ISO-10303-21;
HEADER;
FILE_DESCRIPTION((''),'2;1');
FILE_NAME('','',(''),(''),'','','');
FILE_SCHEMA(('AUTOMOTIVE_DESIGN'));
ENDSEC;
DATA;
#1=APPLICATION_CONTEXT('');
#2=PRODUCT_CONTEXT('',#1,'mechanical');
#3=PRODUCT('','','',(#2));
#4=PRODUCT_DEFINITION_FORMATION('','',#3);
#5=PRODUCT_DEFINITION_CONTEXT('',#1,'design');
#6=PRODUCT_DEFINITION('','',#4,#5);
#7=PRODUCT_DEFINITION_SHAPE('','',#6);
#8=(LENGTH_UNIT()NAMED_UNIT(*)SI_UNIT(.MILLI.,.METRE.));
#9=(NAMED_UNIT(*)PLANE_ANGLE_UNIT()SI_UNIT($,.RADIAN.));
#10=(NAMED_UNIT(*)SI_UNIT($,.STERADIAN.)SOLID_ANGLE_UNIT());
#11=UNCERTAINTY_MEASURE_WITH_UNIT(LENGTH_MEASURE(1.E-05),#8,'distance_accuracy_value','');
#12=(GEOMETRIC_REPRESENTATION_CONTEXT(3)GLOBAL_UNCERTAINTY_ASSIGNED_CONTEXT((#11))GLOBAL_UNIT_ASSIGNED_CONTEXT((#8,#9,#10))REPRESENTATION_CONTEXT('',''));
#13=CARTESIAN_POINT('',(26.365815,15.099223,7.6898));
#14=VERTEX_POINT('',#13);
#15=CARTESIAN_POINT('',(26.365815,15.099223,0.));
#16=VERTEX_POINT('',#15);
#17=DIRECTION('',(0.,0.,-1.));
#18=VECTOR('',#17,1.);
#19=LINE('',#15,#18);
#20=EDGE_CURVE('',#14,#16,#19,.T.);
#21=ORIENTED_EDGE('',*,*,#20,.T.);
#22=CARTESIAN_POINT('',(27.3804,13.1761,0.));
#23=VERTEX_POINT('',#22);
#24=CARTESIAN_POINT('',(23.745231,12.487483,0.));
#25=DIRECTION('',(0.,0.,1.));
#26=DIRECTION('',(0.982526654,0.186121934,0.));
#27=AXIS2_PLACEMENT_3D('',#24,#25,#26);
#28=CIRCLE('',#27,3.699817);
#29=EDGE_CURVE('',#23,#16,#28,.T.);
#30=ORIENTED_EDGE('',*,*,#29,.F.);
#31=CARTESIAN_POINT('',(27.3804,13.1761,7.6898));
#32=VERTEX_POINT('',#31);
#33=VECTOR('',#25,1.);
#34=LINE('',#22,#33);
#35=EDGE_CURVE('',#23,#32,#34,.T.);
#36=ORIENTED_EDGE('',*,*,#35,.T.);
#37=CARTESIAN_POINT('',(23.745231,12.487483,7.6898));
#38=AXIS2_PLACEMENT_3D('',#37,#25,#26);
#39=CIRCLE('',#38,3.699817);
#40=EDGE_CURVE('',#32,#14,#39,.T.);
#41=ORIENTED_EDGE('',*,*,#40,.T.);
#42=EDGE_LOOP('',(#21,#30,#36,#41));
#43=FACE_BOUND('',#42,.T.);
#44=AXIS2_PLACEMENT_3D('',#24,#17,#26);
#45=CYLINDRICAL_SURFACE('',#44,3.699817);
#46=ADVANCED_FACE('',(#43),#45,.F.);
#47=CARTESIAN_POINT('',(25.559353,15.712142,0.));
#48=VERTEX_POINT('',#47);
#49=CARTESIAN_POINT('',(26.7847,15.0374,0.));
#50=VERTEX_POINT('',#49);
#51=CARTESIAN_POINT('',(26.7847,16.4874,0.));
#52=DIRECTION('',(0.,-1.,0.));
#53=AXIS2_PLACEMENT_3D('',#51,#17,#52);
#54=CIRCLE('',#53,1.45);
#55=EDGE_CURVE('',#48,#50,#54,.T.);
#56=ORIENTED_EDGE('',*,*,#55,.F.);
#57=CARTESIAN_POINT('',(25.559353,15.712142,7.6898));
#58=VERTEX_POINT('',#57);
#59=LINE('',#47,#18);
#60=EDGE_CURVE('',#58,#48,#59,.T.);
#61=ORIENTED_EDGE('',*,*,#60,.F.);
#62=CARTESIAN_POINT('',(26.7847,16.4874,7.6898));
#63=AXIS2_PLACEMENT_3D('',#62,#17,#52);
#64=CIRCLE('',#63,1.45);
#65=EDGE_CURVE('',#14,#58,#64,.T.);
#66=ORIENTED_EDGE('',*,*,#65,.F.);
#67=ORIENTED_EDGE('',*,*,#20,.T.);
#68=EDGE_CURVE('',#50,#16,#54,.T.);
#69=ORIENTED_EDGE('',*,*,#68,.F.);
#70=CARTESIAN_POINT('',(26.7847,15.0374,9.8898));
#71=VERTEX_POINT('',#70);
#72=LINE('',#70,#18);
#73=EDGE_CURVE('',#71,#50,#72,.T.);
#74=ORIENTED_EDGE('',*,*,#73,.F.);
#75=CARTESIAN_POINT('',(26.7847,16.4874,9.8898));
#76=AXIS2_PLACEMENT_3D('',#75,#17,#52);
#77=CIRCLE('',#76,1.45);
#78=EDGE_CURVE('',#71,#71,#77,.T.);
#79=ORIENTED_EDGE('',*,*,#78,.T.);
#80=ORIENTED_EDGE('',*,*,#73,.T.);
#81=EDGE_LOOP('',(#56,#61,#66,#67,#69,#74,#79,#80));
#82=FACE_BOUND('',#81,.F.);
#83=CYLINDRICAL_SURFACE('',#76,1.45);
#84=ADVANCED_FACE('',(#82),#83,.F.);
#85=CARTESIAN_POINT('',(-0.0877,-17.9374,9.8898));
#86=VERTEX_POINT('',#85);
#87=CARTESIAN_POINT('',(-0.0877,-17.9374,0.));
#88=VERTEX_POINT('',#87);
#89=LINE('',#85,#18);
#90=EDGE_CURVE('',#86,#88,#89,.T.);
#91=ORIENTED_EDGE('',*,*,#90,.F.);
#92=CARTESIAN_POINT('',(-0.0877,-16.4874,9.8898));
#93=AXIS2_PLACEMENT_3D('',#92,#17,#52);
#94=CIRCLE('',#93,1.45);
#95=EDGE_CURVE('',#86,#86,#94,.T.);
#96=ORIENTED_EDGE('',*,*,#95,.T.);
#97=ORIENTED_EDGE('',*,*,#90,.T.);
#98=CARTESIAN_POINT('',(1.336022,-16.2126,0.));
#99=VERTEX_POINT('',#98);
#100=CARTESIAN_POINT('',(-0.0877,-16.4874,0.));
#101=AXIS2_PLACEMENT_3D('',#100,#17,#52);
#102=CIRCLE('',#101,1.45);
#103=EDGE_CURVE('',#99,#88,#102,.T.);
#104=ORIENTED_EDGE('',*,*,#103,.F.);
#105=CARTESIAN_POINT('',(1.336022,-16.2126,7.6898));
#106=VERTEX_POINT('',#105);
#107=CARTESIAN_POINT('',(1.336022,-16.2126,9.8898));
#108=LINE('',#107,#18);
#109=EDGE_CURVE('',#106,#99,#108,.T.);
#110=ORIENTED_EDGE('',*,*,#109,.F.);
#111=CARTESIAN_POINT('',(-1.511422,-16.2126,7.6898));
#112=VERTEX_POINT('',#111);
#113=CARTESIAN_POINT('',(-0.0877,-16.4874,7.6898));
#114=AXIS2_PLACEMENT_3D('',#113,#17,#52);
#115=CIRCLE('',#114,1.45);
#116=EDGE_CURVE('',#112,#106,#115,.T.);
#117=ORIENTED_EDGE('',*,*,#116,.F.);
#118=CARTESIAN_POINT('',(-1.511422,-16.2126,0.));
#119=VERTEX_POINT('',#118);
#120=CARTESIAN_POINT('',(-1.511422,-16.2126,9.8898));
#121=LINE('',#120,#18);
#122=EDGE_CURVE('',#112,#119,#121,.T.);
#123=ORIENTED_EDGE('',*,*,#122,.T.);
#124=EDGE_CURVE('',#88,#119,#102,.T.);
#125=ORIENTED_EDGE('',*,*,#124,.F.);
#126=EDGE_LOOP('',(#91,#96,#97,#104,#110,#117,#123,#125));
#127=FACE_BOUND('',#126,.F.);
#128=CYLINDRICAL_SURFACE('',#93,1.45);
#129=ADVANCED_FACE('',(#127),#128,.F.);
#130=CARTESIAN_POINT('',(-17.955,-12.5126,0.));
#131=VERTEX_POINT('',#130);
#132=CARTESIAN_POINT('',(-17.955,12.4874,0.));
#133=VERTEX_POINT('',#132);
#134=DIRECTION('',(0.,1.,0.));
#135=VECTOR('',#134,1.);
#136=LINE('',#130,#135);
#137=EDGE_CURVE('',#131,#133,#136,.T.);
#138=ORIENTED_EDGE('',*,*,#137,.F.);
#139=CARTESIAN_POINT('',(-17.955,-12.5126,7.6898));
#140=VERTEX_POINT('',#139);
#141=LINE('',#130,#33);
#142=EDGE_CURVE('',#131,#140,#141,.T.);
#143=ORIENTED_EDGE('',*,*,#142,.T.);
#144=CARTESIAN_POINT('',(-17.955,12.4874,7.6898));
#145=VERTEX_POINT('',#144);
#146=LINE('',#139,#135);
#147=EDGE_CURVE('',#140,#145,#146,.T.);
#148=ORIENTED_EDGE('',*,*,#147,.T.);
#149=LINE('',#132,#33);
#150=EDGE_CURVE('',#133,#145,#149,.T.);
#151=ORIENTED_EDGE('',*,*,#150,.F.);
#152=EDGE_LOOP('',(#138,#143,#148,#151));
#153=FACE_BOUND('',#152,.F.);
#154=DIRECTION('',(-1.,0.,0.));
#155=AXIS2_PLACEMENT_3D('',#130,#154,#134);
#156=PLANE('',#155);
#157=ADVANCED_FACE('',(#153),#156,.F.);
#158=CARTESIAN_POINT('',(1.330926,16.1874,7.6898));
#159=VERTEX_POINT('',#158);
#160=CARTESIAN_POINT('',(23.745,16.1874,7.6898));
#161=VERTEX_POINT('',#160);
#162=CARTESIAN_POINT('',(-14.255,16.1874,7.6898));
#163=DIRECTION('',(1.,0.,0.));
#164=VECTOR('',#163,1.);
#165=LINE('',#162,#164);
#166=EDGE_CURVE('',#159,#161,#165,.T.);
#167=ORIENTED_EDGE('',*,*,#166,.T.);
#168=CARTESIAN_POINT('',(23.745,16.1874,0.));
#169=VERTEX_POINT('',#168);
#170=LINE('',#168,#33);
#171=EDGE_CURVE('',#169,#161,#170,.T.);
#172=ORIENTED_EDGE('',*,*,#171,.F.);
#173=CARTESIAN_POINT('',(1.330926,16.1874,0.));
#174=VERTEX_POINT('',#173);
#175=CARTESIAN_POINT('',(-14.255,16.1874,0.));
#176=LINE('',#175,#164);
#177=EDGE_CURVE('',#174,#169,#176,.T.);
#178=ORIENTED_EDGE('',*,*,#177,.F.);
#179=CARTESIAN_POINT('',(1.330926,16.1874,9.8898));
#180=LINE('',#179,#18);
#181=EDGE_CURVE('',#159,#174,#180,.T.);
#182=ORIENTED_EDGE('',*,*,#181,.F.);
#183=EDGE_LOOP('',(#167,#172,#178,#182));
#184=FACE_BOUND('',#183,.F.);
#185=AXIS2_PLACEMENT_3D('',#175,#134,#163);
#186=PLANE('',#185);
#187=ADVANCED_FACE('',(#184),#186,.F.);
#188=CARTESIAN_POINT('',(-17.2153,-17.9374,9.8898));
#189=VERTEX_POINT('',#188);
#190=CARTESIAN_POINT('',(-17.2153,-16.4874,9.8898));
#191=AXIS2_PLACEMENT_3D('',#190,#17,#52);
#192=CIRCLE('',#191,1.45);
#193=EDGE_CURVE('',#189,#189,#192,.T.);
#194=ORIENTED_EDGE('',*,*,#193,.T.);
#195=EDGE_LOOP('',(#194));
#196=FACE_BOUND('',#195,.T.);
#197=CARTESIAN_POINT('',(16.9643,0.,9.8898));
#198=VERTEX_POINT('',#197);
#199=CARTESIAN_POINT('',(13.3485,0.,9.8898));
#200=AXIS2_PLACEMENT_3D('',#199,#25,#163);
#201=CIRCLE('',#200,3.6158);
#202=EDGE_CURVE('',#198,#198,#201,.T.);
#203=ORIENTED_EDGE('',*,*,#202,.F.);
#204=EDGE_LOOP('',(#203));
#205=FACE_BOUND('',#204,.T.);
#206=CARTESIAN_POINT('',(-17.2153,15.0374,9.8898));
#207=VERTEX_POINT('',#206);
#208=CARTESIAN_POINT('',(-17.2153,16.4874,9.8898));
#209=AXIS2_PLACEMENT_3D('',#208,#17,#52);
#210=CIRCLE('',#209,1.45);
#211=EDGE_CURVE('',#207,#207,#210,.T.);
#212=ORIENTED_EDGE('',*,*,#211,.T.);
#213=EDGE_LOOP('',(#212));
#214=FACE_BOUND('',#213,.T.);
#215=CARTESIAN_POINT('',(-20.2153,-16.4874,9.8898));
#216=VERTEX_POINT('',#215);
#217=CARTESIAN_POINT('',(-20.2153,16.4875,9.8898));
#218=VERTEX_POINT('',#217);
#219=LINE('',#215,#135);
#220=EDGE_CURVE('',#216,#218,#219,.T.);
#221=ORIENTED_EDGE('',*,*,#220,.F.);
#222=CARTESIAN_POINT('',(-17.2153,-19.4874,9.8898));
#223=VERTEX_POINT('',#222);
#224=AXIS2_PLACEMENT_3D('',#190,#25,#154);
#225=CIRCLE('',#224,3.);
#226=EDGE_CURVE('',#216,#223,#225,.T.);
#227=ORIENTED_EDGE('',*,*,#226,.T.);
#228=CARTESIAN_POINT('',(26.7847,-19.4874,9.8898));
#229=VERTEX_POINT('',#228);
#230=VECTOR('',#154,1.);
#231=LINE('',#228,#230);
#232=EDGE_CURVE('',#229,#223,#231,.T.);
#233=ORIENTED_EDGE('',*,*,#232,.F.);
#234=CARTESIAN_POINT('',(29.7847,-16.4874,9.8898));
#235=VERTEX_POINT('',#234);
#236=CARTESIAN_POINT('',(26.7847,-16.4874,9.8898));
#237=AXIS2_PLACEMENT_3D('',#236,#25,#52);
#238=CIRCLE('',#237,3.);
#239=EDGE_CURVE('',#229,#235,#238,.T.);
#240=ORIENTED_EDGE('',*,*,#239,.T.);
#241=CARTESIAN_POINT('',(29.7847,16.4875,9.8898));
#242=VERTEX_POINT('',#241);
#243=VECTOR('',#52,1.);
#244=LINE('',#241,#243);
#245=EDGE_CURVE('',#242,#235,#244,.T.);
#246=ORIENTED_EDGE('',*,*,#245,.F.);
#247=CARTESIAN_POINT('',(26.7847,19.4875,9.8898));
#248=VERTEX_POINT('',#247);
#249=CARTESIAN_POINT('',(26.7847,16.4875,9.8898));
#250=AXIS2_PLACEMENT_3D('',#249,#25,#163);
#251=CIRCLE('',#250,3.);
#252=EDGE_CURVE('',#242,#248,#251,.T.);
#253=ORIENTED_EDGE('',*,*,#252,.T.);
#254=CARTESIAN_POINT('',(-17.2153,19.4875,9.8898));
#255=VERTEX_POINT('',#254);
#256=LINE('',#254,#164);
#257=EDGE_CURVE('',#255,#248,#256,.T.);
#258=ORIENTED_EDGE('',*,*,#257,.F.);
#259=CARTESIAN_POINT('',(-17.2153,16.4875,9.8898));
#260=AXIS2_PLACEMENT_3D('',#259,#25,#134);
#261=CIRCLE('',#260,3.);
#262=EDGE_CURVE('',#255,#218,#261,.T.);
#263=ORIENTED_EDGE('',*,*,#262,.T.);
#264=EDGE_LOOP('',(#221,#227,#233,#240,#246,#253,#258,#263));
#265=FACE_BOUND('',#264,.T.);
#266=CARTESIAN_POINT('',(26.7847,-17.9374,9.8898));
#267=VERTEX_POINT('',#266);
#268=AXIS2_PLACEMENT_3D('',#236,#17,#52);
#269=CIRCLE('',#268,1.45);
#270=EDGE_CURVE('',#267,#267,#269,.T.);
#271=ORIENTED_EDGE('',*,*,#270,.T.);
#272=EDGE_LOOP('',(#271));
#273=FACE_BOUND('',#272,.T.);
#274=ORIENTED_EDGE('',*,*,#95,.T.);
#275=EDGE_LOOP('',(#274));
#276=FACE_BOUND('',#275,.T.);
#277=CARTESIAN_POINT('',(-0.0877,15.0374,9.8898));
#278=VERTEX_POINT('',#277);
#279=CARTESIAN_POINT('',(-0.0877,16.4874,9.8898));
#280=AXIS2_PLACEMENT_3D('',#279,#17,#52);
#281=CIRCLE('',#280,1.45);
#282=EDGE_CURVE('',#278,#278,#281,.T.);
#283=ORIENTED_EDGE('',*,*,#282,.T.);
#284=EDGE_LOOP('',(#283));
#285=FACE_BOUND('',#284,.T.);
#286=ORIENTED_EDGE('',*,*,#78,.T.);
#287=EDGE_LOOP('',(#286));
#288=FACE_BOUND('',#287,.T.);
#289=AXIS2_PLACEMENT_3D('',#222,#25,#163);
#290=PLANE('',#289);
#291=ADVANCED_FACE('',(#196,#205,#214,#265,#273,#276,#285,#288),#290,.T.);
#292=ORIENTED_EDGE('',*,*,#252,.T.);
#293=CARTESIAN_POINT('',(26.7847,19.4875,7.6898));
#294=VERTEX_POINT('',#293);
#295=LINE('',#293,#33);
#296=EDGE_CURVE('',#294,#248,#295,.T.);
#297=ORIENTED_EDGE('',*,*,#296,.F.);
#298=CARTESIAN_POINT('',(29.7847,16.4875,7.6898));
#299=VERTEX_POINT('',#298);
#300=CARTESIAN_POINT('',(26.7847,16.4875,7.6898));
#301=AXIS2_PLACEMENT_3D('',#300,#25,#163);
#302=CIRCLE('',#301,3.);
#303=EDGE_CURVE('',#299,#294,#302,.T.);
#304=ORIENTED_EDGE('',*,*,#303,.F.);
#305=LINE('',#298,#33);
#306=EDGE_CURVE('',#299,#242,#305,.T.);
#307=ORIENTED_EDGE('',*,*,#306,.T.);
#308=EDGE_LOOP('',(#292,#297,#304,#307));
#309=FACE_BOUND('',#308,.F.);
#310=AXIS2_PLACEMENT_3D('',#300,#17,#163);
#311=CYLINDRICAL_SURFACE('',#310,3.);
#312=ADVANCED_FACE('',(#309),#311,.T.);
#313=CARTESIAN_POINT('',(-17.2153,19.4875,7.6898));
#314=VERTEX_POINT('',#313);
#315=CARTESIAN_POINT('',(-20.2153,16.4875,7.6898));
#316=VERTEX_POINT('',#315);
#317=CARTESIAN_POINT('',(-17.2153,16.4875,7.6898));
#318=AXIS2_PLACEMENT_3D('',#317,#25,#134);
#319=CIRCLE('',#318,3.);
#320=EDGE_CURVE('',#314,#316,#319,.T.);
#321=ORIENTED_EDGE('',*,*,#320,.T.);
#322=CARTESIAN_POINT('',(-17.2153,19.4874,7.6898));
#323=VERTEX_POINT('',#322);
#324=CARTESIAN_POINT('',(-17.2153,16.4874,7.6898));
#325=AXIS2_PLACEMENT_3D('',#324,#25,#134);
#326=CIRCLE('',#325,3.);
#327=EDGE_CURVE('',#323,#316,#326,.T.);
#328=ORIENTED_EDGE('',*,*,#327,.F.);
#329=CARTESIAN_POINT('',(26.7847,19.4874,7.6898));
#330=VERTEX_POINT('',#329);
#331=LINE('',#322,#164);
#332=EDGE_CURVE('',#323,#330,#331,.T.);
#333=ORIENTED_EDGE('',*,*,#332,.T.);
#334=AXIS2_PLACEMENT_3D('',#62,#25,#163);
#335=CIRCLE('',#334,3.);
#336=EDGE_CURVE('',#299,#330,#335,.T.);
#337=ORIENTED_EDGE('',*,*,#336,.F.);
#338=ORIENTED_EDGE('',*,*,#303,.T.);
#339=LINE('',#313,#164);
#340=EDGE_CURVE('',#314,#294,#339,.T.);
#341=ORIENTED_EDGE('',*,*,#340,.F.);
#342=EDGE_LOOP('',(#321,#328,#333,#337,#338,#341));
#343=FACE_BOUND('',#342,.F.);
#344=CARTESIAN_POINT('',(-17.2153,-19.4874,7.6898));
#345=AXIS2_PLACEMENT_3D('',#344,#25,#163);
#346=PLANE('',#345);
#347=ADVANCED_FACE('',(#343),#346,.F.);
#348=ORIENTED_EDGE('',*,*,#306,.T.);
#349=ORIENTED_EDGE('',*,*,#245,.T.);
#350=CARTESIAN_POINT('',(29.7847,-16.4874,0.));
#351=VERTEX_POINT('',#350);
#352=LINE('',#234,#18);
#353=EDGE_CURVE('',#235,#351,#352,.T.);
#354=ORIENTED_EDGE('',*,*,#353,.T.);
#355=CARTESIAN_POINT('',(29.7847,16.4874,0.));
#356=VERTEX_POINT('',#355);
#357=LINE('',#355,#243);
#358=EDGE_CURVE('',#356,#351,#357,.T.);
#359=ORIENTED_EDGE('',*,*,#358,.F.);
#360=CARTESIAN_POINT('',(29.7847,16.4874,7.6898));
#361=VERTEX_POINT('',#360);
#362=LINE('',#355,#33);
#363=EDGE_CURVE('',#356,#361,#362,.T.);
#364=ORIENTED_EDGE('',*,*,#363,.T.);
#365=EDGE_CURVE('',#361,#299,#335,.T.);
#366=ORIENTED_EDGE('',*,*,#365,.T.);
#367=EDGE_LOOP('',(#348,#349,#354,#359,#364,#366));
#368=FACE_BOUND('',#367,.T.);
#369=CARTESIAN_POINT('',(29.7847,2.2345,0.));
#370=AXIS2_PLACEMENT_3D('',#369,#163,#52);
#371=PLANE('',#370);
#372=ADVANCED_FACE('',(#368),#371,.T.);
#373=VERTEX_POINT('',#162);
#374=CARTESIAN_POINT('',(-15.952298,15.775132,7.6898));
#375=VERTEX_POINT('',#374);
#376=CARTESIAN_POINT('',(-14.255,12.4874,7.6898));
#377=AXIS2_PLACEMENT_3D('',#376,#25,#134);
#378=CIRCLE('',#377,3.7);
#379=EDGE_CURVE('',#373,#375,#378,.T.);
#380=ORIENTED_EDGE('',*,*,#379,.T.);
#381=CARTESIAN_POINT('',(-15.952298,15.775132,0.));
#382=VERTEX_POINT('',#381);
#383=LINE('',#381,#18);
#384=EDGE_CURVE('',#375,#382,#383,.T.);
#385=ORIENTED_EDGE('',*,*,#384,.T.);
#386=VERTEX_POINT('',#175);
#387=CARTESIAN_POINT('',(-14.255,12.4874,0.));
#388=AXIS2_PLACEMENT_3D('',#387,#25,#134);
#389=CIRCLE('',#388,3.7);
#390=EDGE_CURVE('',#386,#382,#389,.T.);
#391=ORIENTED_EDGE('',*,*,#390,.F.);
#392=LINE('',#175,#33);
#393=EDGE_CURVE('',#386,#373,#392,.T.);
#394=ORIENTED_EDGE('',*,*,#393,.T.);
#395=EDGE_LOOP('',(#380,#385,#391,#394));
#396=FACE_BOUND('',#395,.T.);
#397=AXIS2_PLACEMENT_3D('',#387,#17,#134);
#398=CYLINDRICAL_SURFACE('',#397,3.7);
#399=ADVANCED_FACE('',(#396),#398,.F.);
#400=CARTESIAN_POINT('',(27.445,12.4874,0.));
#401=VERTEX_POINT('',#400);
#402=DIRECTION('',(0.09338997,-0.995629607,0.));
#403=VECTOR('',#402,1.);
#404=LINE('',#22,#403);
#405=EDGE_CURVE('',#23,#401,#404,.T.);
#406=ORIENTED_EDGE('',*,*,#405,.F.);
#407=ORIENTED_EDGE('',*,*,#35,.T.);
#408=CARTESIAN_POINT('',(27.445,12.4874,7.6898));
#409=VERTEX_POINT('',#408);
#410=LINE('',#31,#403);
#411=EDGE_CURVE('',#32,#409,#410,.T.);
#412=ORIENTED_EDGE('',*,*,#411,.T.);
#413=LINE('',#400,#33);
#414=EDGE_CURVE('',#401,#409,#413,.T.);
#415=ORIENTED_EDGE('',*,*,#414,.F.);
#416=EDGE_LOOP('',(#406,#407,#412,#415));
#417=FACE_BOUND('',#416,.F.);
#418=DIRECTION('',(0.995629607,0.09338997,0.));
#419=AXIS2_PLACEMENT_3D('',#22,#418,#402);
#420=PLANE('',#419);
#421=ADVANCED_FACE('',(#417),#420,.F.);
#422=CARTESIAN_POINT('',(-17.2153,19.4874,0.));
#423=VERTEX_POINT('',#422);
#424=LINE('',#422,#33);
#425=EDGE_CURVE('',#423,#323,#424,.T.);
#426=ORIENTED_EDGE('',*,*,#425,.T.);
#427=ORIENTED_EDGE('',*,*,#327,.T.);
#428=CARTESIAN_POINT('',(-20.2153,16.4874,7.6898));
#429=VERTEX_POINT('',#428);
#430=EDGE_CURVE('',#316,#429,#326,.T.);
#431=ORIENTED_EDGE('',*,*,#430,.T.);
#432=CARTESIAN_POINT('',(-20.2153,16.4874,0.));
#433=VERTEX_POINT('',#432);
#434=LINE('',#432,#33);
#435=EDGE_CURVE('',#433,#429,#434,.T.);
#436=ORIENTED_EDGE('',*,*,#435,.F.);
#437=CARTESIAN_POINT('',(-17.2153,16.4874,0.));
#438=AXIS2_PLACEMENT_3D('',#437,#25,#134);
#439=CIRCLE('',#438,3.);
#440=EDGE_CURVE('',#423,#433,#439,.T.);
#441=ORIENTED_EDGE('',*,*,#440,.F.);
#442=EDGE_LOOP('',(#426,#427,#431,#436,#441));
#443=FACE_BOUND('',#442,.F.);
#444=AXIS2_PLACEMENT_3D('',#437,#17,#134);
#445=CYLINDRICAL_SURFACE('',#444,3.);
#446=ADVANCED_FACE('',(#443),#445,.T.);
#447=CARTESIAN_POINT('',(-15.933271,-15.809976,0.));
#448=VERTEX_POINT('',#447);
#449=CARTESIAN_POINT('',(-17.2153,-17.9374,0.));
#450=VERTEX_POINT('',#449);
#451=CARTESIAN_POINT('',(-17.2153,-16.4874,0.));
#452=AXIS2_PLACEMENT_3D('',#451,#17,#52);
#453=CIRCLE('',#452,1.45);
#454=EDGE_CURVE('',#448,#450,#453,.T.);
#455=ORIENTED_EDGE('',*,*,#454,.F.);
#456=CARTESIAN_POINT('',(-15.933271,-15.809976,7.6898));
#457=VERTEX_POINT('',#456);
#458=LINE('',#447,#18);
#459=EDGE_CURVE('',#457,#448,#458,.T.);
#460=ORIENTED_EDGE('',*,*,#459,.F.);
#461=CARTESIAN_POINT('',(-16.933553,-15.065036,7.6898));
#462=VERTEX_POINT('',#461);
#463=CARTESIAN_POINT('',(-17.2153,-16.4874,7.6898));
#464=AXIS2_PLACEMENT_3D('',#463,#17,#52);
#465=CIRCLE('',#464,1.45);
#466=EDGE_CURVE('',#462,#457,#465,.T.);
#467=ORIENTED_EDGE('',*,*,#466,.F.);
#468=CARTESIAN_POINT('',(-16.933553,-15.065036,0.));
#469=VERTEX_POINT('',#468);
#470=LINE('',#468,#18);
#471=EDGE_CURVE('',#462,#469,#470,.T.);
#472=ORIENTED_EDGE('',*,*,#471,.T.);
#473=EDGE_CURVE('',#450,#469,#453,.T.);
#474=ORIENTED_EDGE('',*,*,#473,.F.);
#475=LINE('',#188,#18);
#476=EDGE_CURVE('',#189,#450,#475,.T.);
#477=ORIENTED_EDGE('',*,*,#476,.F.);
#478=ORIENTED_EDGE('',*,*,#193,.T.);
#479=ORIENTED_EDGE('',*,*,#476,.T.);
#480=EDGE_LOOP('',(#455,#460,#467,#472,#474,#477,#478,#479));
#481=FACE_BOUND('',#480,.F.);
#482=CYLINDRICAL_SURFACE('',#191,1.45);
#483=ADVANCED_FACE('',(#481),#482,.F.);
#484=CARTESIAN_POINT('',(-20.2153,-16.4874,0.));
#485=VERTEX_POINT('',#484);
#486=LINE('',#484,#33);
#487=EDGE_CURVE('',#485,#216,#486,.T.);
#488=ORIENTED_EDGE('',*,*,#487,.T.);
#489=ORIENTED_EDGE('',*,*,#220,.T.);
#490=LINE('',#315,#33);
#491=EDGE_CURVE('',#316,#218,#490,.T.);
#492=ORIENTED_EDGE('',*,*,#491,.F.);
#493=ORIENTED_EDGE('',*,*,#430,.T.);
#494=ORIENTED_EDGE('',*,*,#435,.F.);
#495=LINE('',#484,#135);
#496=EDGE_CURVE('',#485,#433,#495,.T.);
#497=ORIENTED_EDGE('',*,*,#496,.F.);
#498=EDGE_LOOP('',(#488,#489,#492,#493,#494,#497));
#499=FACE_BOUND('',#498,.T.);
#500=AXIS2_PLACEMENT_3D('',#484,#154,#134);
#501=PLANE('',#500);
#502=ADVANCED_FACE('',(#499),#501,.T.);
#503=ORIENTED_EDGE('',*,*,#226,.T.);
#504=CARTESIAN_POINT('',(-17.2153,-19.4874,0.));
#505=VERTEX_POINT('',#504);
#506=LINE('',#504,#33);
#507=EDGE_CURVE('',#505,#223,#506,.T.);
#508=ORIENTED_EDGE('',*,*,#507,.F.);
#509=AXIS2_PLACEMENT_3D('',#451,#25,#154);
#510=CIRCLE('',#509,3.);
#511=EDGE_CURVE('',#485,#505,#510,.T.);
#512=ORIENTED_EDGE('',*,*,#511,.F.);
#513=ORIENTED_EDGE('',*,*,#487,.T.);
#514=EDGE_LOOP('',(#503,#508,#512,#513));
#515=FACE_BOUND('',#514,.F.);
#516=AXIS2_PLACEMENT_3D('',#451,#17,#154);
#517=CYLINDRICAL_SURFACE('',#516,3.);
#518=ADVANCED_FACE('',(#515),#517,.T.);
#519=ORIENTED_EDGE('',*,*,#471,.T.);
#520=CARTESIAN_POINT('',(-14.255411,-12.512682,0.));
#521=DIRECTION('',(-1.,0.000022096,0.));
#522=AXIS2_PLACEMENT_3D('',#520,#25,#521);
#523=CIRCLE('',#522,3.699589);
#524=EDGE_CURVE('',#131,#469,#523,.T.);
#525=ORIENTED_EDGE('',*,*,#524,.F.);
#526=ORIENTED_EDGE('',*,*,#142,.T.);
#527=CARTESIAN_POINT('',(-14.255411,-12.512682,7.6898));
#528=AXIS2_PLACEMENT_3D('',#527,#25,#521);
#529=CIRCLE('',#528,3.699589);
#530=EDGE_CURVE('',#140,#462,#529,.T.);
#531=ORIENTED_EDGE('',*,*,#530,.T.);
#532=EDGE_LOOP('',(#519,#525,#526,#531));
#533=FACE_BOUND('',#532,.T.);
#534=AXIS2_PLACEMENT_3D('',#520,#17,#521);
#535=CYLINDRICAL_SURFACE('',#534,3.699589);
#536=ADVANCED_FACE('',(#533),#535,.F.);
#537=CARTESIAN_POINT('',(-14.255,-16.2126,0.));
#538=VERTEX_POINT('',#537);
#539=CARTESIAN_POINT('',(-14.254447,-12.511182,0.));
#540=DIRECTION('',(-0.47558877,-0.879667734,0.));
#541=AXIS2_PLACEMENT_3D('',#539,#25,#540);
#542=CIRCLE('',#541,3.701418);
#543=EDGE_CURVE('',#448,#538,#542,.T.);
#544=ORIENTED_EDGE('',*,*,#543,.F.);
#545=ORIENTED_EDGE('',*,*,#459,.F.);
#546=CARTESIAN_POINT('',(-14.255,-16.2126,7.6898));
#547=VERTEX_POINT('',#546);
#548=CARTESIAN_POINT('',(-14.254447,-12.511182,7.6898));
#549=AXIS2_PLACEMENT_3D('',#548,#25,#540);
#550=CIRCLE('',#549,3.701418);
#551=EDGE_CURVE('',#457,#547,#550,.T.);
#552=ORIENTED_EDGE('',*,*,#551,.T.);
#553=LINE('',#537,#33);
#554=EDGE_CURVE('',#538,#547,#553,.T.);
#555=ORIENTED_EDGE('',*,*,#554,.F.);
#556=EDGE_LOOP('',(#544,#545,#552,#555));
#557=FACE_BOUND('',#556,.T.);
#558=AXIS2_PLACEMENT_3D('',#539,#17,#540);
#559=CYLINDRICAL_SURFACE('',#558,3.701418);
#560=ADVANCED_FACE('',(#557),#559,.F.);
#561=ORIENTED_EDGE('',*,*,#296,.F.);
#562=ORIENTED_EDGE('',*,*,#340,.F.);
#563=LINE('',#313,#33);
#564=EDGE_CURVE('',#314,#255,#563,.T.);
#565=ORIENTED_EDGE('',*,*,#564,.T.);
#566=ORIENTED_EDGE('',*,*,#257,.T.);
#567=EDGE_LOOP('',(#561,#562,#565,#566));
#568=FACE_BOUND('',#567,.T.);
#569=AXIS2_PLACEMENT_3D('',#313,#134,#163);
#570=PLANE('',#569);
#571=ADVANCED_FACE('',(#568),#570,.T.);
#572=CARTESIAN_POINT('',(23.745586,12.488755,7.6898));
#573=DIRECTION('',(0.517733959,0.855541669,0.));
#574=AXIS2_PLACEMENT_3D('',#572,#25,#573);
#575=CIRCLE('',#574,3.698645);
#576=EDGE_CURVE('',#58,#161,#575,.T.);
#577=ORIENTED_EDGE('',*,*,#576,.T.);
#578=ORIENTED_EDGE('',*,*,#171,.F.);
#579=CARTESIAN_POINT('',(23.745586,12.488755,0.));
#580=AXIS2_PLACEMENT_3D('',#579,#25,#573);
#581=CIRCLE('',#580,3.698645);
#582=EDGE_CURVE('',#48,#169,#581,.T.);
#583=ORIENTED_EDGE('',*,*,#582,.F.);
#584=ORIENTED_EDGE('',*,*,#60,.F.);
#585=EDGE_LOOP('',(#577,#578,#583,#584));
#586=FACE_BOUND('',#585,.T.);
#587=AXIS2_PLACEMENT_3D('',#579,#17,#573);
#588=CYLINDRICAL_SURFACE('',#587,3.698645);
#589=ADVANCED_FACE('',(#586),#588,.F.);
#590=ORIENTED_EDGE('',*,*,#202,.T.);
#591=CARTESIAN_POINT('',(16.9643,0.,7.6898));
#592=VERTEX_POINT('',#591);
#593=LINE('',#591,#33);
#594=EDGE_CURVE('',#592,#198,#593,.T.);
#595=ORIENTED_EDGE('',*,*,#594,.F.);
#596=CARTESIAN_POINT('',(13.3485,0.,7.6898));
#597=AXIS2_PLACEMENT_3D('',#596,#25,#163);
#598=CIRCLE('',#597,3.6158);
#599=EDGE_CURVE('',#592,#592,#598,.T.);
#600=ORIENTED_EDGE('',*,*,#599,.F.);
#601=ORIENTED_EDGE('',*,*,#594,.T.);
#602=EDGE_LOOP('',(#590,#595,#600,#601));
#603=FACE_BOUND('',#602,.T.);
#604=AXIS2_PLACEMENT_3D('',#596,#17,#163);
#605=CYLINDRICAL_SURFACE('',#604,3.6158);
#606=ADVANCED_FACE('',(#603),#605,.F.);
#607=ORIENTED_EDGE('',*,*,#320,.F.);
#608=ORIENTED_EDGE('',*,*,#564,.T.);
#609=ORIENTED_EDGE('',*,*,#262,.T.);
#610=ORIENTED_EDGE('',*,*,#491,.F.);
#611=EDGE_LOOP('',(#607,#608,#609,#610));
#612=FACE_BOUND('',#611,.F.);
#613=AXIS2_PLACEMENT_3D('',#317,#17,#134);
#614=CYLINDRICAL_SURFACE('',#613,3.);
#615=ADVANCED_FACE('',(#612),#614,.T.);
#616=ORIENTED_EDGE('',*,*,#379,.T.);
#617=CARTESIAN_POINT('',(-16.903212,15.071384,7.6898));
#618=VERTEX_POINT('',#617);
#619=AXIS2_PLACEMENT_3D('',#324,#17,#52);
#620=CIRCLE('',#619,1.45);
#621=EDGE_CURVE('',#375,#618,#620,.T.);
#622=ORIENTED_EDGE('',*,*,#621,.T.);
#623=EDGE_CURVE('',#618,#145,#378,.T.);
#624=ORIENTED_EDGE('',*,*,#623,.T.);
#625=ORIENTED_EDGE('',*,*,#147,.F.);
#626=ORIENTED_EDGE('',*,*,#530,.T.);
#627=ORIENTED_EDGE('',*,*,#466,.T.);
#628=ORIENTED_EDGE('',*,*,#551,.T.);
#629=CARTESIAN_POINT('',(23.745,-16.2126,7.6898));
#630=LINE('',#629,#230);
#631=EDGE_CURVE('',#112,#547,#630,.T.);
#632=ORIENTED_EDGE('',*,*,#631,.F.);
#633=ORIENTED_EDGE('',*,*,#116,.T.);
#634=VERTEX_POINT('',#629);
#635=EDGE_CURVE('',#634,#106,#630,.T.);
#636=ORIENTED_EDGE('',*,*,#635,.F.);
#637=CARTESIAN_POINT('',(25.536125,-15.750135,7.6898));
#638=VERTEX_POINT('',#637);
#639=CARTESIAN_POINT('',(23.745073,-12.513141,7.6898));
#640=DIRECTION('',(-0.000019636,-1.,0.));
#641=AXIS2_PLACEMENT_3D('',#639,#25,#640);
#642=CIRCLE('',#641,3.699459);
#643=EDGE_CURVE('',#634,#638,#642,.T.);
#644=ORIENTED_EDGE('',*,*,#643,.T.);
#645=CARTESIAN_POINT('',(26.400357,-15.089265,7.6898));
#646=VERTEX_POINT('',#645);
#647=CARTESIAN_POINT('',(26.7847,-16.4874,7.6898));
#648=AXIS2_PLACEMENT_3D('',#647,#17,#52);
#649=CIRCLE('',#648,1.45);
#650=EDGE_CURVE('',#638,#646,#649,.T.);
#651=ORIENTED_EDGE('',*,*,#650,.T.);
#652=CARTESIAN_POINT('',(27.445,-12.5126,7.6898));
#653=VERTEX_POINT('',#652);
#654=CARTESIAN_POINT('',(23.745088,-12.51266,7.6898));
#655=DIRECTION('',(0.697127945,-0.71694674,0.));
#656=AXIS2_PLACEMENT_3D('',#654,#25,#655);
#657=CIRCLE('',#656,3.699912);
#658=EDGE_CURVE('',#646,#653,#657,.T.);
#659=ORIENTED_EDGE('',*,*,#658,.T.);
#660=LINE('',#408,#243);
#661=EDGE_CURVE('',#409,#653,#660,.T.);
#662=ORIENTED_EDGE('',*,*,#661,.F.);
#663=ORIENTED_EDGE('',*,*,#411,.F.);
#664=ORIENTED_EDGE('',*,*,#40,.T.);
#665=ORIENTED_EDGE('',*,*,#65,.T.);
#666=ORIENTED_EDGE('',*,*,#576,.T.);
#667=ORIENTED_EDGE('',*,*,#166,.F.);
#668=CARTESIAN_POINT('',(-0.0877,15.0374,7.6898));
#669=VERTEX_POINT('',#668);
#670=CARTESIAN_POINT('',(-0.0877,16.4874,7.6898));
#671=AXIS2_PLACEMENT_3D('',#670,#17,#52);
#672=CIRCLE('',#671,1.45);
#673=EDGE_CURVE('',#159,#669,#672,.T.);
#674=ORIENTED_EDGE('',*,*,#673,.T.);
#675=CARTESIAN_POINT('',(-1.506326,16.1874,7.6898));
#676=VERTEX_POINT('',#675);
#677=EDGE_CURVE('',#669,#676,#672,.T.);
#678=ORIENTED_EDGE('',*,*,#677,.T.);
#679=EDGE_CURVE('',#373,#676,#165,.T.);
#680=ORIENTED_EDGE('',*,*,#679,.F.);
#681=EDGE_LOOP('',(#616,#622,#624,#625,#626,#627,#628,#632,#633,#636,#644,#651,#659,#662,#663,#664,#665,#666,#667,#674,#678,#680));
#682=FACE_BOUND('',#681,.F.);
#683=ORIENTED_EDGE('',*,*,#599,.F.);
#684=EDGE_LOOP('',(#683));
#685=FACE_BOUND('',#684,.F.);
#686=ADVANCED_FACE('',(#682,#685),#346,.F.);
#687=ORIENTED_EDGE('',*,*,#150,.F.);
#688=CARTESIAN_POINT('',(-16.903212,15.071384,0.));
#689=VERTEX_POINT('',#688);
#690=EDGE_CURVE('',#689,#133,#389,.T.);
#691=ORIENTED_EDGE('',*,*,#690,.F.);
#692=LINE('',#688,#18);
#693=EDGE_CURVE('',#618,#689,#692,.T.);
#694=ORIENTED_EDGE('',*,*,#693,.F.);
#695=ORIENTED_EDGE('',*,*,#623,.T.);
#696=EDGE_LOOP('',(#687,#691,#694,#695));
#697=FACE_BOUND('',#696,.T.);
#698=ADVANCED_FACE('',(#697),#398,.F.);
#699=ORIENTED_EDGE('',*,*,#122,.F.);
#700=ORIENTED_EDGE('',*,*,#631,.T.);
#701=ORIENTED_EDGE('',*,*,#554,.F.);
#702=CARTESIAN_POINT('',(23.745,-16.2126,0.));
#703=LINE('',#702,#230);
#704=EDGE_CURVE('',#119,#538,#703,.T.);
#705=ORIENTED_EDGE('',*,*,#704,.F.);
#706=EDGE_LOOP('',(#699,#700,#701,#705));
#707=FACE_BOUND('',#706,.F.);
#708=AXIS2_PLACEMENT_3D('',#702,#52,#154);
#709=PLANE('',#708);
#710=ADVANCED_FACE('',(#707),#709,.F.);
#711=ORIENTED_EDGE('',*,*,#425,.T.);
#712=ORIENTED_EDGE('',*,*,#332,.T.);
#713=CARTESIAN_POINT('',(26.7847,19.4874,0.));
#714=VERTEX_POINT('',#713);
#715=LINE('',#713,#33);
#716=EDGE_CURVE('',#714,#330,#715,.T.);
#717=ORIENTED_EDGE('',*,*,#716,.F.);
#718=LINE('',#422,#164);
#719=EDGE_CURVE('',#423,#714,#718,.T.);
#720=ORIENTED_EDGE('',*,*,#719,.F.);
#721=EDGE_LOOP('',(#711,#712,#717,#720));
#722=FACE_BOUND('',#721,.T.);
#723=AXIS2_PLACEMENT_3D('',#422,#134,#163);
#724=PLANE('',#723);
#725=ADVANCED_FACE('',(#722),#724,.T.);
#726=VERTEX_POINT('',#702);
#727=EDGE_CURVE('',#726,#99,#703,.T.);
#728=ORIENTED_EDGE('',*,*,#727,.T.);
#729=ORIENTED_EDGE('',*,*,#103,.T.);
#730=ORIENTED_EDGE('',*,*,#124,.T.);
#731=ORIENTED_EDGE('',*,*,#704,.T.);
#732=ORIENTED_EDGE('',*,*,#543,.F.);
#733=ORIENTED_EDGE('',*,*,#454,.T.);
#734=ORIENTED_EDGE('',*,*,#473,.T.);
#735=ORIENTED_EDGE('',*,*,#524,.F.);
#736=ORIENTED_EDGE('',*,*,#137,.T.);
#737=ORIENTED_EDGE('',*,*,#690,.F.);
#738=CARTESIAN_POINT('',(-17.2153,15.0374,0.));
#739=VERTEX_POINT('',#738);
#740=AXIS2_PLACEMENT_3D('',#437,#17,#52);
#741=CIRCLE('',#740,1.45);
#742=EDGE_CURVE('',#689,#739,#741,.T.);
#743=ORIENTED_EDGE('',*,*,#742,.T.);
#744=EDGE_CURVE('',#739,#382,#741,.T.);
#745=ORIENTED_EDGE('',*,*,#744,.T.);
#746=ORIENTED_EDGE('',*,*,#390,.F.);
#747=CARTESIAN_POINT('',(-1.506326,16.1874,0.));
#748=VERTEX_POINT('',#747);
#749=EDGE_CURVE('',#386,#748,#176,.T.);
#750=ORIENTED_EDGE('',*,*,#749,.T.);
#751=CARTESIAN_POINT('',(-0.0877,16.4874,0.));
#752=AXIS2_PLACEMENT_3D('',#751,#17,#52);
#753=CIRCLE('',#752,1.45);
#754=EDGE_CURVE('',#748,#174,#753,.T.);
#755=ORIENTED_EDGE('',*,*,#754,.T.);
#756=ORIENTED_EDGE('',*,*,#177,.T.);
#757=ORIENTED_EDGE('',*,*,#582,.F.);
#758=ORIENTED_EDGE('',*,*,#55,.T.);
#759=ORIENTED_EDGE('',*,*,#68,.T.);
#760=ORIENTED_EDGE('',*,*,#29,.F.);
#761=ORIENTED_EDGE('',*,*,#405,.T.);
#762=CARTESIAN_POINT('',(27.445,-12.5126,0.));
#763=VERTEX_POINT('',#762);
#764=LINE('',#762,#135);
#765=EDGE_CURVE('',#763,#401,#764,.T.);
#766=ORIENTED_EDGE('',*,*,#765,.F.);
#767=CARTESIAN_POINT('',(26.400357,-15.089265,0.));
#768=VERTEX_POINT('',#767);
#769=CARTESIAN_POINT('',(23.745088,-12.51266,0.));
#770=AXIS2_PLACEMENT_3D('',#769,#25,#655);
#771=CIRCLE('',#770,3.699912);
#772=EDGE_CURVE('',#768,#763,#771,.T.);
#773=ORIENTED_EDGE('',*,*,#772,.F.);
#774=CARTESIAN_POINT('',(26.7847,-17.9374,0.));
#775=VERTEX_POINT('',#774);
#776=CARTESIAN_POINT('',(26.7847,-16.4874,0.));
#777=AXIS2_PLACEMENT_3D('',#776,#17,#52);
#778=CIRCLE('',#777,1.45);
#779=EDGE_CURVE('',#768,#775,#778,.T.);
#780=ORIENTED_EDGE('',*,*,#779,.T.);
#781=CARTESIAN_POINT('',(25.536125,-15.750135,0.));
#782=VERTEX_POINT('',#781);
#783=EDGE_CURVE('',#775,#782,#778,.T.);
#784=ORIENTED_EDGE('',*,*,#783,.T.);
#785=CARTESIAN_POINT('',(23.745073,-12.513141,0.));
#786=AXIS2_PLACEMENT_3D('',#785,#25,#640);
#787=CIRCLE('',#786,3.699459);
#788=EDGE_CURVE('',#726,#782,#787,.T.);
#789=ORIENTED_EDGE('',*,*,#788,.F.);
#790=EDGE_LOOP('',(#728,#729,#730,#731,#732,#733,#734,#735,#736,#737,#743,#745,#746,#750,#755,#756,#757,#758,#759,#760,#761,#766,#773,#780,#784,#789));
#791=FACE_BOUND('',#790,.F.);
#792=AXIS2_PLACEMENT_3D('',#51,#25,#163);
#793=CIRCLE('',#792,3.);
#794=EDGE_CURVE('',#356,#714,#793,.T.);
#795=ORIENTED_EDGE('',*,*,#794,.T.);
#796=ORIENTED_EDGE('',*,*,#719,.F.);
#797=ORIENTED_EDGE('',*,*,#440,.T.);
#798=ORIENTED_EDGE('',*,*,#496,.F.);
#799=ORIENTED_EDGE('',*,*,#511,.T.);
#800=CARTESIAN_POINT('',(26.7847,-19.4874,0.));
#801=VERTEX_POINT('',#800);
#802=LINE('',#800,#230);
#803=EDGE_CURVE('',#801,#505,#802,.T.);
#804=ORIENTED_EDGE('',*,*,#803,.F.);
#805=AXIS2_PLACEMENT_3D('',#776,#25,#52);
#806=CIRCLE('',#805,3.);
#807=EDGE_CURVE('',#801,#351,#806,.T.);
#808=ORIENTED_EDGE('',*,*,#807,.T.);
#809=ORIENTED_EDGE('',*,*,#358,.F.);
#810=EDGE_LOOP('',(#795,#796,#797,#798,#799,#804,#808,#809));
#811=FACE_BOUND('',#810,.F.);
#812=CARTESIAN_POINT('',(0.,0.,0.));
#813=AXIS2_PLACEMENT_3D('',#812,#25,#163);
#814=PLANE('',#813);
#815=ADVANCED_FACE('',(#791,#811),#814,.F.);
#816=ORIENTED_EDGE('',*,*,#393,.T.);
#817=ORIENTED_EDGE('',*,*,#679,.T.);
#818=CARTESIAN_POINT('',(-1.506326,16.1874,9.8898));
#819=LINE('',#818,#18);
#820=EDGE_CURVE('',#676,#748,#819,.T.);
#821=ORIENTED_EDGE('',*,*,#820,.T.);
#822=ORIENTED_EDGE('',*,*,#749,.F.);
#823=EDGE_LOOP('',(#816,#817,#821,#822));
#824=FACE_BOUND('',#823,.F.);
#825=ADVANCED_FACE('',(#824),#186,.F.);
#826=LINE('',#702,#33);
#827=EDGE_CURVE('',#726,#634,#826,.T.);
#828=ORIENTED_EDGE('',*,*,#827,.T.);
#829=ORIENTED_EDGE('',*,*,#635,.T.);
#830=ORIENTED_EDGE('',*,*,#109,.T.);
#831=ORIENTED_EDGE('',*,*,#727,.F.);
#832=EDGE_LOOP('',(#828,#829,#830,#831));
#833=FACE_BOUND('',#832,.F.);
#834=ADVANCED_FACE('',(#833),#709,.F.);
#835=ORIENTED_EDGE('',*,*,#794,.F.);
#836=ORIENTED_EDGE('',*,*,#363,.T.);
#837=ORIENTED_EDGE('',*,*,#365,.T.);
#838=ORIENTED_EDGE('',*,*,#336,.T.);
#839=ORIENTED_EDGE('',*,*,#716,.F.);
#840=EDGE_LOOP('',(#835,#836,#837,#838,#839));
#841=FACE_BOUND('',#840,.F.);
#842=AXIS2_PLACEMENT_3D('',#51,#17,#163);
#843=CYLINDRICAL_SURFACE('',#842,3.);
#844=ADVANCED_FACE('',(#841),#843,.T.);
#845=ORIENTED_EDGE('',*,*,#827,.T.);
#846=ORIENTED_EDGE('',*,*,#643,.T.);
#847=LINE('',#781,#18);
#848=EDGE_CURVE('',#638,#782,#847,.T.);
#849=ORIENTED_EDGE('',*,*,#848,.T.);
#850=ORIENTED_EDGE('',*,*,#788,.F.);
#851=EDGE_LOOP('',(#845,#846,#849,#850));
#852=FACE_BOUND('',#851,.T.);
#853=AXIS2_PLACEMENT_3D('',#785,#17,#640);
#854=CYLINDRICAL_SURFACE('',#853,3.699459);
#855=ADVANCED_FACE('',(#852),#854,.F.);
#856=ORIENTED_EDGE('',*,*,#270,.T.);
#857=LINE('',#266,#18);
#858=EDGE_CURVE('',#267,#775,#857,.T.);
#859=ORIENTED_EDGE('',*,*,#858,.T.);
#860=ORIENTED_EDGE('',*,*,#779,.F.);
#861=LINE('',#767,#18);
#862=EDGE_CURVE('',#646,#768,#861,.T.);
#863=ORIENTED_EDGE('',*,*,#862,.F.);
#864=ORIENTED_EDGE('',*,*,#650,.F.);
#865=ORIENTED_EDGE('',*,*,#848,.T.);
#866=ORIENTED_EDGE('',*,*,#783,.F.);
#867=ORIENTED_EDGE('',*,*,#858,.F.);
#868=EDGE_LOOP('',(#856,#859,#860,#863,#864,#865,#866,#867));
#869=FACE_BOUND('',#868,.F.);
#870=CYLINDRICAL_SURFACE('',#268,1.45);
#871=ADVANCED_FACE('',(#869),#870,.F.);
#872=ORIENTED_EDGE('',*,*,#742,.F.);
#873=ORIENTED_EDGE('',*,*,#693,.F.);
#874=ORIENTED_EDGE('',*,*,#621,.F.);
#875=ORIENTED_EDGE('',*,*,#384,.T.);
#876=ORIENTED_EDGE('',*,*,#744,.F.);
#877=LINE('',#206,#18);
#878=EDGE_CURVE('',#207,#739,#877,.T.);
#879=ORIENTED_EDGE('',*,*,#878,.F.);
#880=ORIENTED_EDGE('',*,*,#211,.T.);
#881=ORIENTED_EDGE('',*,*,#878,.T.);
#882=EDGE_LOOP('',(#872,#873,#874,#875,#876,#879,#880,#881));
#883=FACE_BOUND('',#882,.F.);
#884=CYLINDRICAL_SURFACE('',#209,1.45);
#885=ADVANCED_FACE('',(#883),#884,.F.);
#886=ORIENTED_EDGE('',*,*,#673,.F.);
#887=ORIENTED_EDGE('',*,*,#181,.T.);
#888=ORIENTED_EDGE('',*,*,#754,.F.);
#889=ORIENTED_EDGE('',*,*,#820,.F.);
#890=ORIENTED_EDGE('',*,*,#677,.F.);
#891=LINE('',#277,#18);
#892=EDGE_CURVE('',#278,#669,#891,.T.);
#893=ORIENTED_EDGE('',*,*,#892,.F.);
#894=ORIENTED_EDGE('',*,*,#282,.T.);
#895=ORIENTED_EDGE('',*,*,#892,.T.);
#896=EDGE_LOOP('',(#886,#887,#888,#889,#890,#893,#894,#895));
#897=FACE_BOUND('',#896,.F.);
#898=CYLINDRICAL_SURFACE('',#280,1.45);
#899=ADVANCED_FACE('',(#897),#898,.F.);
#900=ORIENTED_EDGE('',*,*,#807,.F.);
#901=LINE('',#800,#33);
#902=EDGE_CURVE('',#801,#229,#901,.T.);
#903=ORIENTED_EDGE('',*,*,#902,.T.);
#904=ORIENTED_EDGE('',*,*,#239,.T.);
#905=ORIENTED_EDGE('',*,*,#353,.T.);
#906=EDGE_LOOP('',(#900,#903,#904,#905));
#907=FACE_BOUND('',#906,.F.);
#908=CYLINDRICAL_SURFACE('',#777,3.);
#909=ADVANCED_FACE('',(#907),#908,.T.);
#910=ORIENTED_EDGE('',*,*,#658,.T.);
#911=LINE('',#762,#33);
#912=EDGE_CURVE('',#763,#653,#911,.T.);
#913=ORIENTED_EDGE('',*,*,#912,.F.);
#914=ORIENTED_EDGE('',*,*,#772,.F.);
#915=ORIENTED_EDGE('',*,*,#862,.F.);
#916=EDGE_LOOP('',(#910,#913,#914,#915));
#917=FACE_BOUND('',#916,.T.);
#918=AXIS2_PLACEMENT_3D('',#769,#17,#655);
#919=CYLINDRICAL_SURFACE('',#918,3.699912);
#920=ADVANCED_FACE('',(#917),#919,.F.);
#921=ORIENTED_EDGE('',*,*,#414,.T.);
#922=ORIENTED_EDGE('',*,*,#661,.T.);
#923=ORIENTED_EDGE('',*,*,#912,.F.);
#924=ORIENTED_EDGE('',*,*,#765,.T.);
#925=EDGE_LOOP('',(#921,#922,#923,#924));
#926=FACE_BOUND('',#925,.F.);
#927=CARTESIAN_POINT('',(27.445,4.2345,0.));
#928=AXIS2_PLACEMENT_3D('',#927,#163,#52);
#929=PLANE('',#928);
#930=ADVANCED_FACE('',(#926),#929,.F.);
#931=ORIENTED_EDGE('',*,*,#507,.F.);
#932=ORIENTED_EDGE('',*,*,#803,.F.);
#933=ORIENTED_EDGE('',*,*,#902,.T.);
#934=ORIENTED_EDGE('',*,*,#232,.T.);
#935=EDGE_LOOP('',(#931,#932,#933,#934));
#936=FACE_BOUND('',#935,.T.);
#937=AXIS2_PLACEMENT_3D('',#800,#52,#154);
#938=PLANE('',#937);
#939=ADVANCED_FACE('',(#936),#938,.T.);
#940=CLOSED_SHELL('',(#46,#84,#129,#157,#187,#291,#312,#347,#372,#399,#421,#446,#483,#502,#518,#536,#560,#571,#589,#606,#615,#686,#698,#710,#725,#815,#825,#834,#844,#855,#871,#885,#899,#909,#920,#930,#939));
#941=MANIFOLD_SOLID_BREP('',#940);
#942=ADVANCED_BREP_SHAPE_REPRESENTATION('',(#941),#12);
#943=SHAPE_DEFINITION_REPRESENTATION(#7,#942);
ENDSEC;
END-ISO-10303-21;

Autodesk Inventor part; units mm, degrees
ref_plane "YZ Plane" through (0, 0, 0) normal (1, 0, 0) x (0, 1, 0)
ref_plane "XZ Plane" through (0, 0, 0) normal (0, 1, 0) x (-1, 0, 0)
ref_plane "Arbeitsebene1" through (0, 0, 0) normal (0, 0, 1) x (1, 0, 0)
sketch "Skizze1" plane through (0, 0, 0) normal (0, 0, 1) x (1, 0, 0)
  arc A0 (-16.0148, -15.7672) -> (-14.255, -16.2126) centre (-14.255, -12.5126) ccw projected
  line L0 (-17.955, -12.5126) -> (-17.955, 12.4874) projected
  arc A1 (-14.255, 16.1874) -> (-17.955, 12.4874) centre (-14.255, 12.4874) ccw projected
  line L1 (-14.255, 16.1874) -> (23.745, 16.1874) projected
  arc A2 (25.6605, 15.6531) -> (23.745, 16.1874) centre (23.745, 12.4874) ccw projected
  arc A3 (26.3244, -15.1653) -> (27.445, -12.5126) centre (23.745, -12.5126) ccw projected
  line L2 (23.745, -16.2126) -> (-14.255, -16.2126) projected
  line L3 (-17.2153, 19.4874) -> (26.7847, 19.4874) projected
  arc A4 (-17.2153, 19.4874) -> (-20.2153, 16.4874) centre (-17.2153, 16.4874) ccw projected
  line L4 (-20.2153, -16.4874) -> (-20.2153, 16.4874) projected
  arc A5 (-20.2153, -16.4874) -> (-17.2153, -19.4874) centre (-17.2153, -16.4874) ccw projected
  line L5 (26.7847, -19.4874) -> (-17.2153, -19.4874) projected
  arc A6 (-16.0148, -15.7672) -> (-14.255, -16.2126) centre (-14.255, -12.5126) ccw projected
  line L6 (-17.955, -12.5126) -> (-17.955, 12.4874) projected
  arc A7 (-14.255, 16.1874) -> (-17.955, 12.4874) centre (-14.255, 12.4874) ccw projected
  line L7 (-14.255, 16.1874) -> (23.745, 16.1874) projected
  arc A8 (25.6605, 15.6531) -> (23.745, 16.1874) centre (23.745, 12.4874) ccw projected
  arc A9 (26.3244, -15.1653) -> (27.445, -12.5126) centre (23.745, -12.5126) ccw projected
  line L8 (23.745, -16.2126) -> (-14.255, -16.2126) projected
  line L9 (-17.2153, 19.4874) -> (26.7847, 19.4874) projected
  line L10 (26.7847, -19.4874) -> (-17.2153, -19.4874) projected
  line L11 (-20.2153, -16.4874) -> (-20.2153, 16.4874) projected
  arc A10 (-20.2153, -16.4874) -> (-17.2153, -19.4874) centre (-17.2153, -16.4874) ccw projected
  line L12 (29.7847, 16.4874) -> (29.7847, 15.1761) projected
  arc A11 (29.7847, 16.4874) -> (26.7847, 19.4874) centre (26.7847, 16.4874) ccw projected
  arc A12 (26.7847, -19.4874) -> (29.7847, -16.4874) centre (26.7847, -16.4874) ccw projected
  line L13 (29.7847, 16.4874) -> (29.7847, 15.1761) projected
  arc A13 (29.7847, 16.4874) -> (26.7847, 19.4874) centre (26.7847, 16.4874) ccw projected
  arc A14 (26.7847, -19.4874) -> (29.7847, -16.4874) centre (26.7847, -16.4874) ccw projected
  line L14 (28.445, 12.4874) -> (28.445, -12.5126)
  arc A15 (26.2819, 15.1808) -> (25.6605, 15.6531) centre (26.7847, 16.4874) ccw projected
  arc A16 (23.745, -16.2126) -> (25.6293, -15.6968) centre (23.745, -12.5126) ccw projected
  arc A17 (25.6293, -15.6968) -> (26.3244, -15.1653) centre (26.7847, -16.4874) ccw projected
  arc A18 (-16.8692, -15.1309) -> (-16.0148, -15.7672) centre (-17.2153, -16.4874) ccw projected
  arc A19 (27.3804, 13.1761) -> (26.2819, 15.1808) centre (23.745, 12.4874) ccw projected
  line L15 (23.745, 13.4874) -> (-14.255, 13.4874) projected
  line L16 (-14.255, -13.5126) -> (23.745, -13.5126) projected
  line L17 (25.0985, -12.5126) -> (27.445, -12.5126) projected
  arc A20 (-17.955, -12.5126) -> (-16.8692, -15.1309) centre (-14.255, -12.5126) ccw projected
  arc A21 (26.2819, 15.1808) -> (25.6605, 15.6531) centre (26.7847, 16.4874) ccw projected
  arc A22 (23.745, -16.2126) -> (25.6293, -15.6968) centre (23.745, -12.5126) ccw projected
  arc A23 (25.6293, -15.6968) -> (26.3244, -15.1653) centre (26.7847, -16.4874) ccw projected
  arc A24 (-16.8692, -15.1309) -> (-16.0148, -15.7672) centre (-17.2153, -16.4874) ccw projected
  arc A25 (27.3804, 13.1761) -> (26.2819, 15.1808) centre (23.745, 12.4874) ccw projected
  line L18 (23.745, 13.4874) -> (-14.255, 13.4874) projected
  line L19 (-14.255, -13.5126) -> (23.745, -13.5126) projected
  line L20 (25.0985, -12.5126) -> (27.445, -12.5126) projected
  arc A26 (-17.955, -12.5126) -> (-16.8692, -15.1309) centre (-14.255, -12.5126) ccw projected
  circle A27 centre (-17.2153, 16.4874) radius 1.15
  circle A28 centre (26.7847, 16.4874) radius 1.4
  circle A29 centre (26.7847, -16.4874) radius 1.4
  circle A30 centre (-17.2153, -16.4874) radius 1.4
  circle A31 centre (-17.2153, 16.4874) radius 1.15 projected
  circle A32 centre (-17.2153, 16.4874) radius 1.15 projected
  line L21 (25.0985, -9.7969) -> (25.0985, -12.5126) projected
  line L22 (18.0985, 10.1761) -> (-2.8285, 10.1761) projected
  line L23 (-2.8285, 10.1761) -> (-2.8285, 13.1761) projected
  arc A33 (24.4701, 13.1761) -> (23.745, 13.4874) centre (23.745, 12.4874) ccw projected
  arc A34 (23.745, -13.5126) -> (24.7038, -12.7969) centre (23.745, -12.5126) ccw projected
  line L24 (24.7038, -12.7969) -> (-2.8285, -12.7969) projected
  line L25 (-2.8285, -12.7969) -> (-2.8285, -9.7969) projected
  line L26 (-2.8285, -9.7969) -> (25.0985, -9.7969) projected
  circle A35 centre (-17.2153, 16.4874) radius 1.15 projected
  circle A36 centre (-17.2153, 16.4874) radius 1.15 projected
  line L27 (25.0985, -9.7969) -> (25.0985, -12.5126) projected
  line L28 (18.0985, 10.1761) -> (-2.8285, 10.1761) projected
  line L29 (-2.8285, 10.1761) -> (-2.8285, 13.1761) projected
  arc A37 (24.4701, 13.1761) -> (23.745, 13.4874) centre (23.745, 12.4874) ccw projected
  arc A38 (23.745, -13.5126) -> (24.7038, -12.7969) centre (23.745, -12.5126) ccw projected
  line L30 (24.7038, -12.7969) -> (-2.8285, -12.7969) projected
  line L31 (-2.8285, -12.7969) -> (-2.8285, -9.7969) projected
  line L32 (-2.8285, -9.7969) -> (25.0985, -9.7969) projected
  line L33 (27.445, 12.4874) -> (27.445, -12.5126)
  arc A39 (27.7847, 13.1761) -> (29.7847, 15.1761) centre (27.7847, 15.1761) ccw projected
  arc A40 (-17.2153, 19.4874) -> (-20.2153, 16.4874) centre (-17.2153, 16.4874) ccw projected
  line L34 (29.7847, 2.2345) -> (29.7847, -16.4874) projected
  arc A41 (29.7847, 2.2345) -> (27.7847, 4.2345) centre (27.7847, 2.2345) ccw projected
  line L35 (27.7847, 4.2345) -> (22.0985, 4.2345) projected
  arc A42 (20.0985, 6.2345) -> (22.0985, 4.2345) centre (22.0985, 6.2345) ccw projected
  line L36 (20.0985, 6.2345) -> (20.0985, 8.1761) projected
  arc A43 (20.0985, 8.1761) -> (18.0985, 10.1761) centre (18.0985, 8.1761) ccw projected
  line L37 (-2.8285, 13.1761) -> (24.4701, 13.1761) projected
  arc A44 (-14.255, 13.4874) -> (-15.255, 12.4874) centre (-14.255, 12.4874) ccw projected
  line L38 (-15.255, 12.4874) -> (-15.255, -12.5126) projected
  arc A45 (-15.255, -12.5126) -> (-14.255, -13.5126) centre (-14.255, -12.5126) ccw projected
  line L39 (27.3804, 13.1761) -> (27.7847, 13.1761) projected
  arc A46 (27.7847, 13.1761) -> (29.7847, 15.1761) centre (27.7847, 15.1761) ccw projected
  line L40 (29.7847, 2.2345) -> (29.7847, -16.4874) projected
  arc A47 (29.7847, 2.2345) -> (27.7847, 4.2345) centre (27.7847, 2.2345) ccw projected
  line L41 (27.7847, 4.2345) -> (22.0985, 4.2345) projected
  arc A48 (20.0985, 6.2345) -> (22.0985, 4.2345) centre (22.0985, 6.2345) ccw projected
  line L42 (20.0985, 6.2345) -> (20.0985, 8.1761) projected
  arc A49 (20.0985, 8.1761) -> (18.0985, 10.1761) centre (18.0985, 8.1761) ccw projected
  line L43 (-2.8285, 13.1761) -> (24.4701, 13.1761) projected
  arc A50 (-14.255, 13.4874) -> (-15.255, 12.4874) centre (-14.255, 12.4874) ccw projected
  line L44 (-15.255, 12.4874) -> (-15.255, -12.5126) projected
  arc A51 (-15.255, -12.5126) -> (-14.255, -13.5126) centre (-14.255, -12.5126) ccw projected
  line L45 (27.3804, 13.1761) -> (27.7847, 13.1761) projected
  line L46 (27.3804, 13.1761) -> (27.445, 12.4874)
  line L47 (29.7847, 2.2345) -> (29.7847, 15.1761)
  point P0 (0, 0)
  point P1 (-15.255, 11.1874)
  point P2 (23.745, 12.4874)
  point P3 (23.745, -12.5126)
  point P4 (-17.8427, 15.5236)
  point P5 (-14.255, 12.4874)
  point P6 (-16.1103, 16.8058)
  point P7 (-14.255, 12.4874)
  point P8 (-17.2153, -19.4874)
  point P9 (25.0985, 12.4874)
  point P10 (25.0985, 10.1761)
  point P11 (27.445, -12.5126)
  point P12 (26.3244, -15.1653)
  point P13 (25.6293, -15.6968)
  point P14 (-16.0148, -15.7672)
  point P15 (-16.8692, -15.1309)
  point P16 (25.6605, 15.6531)
  point P17 (26.2819, 15.1808)
  point P18 (29.7847, 15.1761)
  point P19 (25.6605, 15.6531)
  point P20 (26.2819, 15.1808)
  point P21 (27.445, 4.2345)
ref_plane "Arbeitsebene2" through (-3.9015, -6.25, 7.6898) normal (0, 0, 1) x (1, 0, 0)
extrude "Extrusion1" add sketch "Skizze1" along normal up to surface (7.6898 mm away) contours A0 L2 A16 A17 A3 L33 L35 A41 L34 A12 L5 A5 L4 A4 L3 A11 L12 A39 L39 A19 A15 A2 L1 A1 L0 A20 A18 | L33 L46 L39 A39 L47 A41 L35
sketch "Skizze2" plane through (-17.2153, -19.4874, 7.6898) normal (0, 0, 1) x (1, 0, 0)
  arc A0 (0, 38.9749) -> (-3, 35.9749) centre (0, 35.9749) ccw
  line L0 (-3, 3) -> (-3, 35.9749)
  arc A1 (-3, 3) -> (0, 0) centre (0, 3) ccw
  circle A2 centre (30.5638, 19.4874) radius 3.6158
  arc A3 (44, 0) -> (47, 3) centre (44, 3) ccw
  arc A4 (47, 35.9749) -> (44, 38.9749) centre (44, 35.9749) ccw
  line L1 (0, 38.9749) -> (44, 38.9749)
  line L2 (44, 0) -> (0, 0)
  circle A5 centre (30.5638, 19.4874) radius 3.6158
  line L3 (34.6638, 15.3874) -> (26.4638, 15.3874)
  line L4 (26.4638, 15.3874) -> (26.4638, 23.5874)
  line L5 (26.4638, 23.5874) -> (34.6638, 23.5874)
  line L6 (34.6638, 23.5874) -> (34.6638, 15.3874)
  line L7 (34.6638, 15.3874) -> (26.4638, 23.5874) construction
  line L8 (26.4638, 15.3874) -> (34.6638, 23.5874) construction
  arc A6 (0.3462, 4.3565) -> (1.2005, 3.7202) centre (0, 3) ccw
  circle A7 centre (0, 35.9749) radius 1.15
  arc A8 (43.4972, 34.6683) -> (42.8758, 35.1405) centre (44, 35.9749) ccw
  arc A9 (42.8446, 3.7906) -> (43.5397, 4.3222) centre (44, 3) ccw
  arc A10 (-3, 3) -> (0, 0) centre (0, 3) ccw
  circle A11 centre (0, 3) radius 1.4
  circle A12 centre (0, 35.9749) radius 1.4
  circle A13 centre (44, 35.9749) radius 1.4
  circle A14 centre (44, 3) radius 1.4
  circle A15 centre (30.5638, 19.4874) radius 3.75
  line L9 (44.6604, 6.9749) -> (44.6604, 31.9749)
  arc A16 (43.5397, 4.3222) -> (44.6604, 6.9749) centre (40.9604, 6.9749) ccw
  arc A17 (42.8446, 3.7906) -> (43.5397, 4.3222) centre (44, 3) ccw
  arc A18 (40.9604, 3.2749) -> (42.8446, 3.7906) centre (40.9604, 6.9749) ccw
  line L10 (2.9604, 3.2749) -> (40.9604, 3.2749)
  arc A19 (1.2005, 3.7202) -> (2.9604, 3.2749) centre (2.9604, 6.9749) ccw
  arc A20 (0.3462, 4.3565) -> (1.2005, 3.7202) centre (0, 3) ccw
  arc A21 (-0.7396, 6.9749) -> (0.3462, 4.3565) centre (2.9604, 6.9749) ccw
  line L11 (-0.7396, 31.9749) -> (-0.7396, 6.9749)
  arc A22 (2.9604, 35.6749) -> (-0.7396, 31.9749) centre (2.9604, 31.9749) ccw
  line L12 (40.9604, 35.6749) -> (2.9604, 35.6749)
  arc A23 (42.8758, 35.1405) -> (40.9604, 35.6749) centre (40.9604, 31.9749) ccw
  arc A24 (43.4972, 34.6683) -> (42.8758, 35.1405) centre (44, 35.9749) ccw
  arc A25 (44.5957, 32.6636) -> (43.4972, 34.6683) centre (40.9604, 31.9749) ccw
  line L13 (47, 35.9749) -> (47, 3)
  line L14 (44.6604, 31.9749) -> (44.5957, 32.6636)
  point P0 (17.2153, 19.4874)
  point P1 (0.3462, 4.3565)
  point P2 (1.2005, 3.7202)
  point P3 (43.4972, 34.6683)
  point P4 (42.8758, 35.1405)
  point P5 (42.8446, 3.7906)
  point P6 (43.5397, 4.3222)
extrude "Extrusion2" add sketch "Skizze2" along normal blind 2.2 contours L1 A4 L13 A3 L2 A1 L0 A0 | L3 L4 L5 L6 | A11 A6 | A21 L11 A22 A12 L12 A23 A13 A25 L14 L9 A16 A14 A18 L10 A19 A11 | A22 A12 | A12 A22 | A14 A9 | A8 A13 | A15
sketch "Sketch13" plane through (-17.2153, -19.4874, 9.8898) normal (0, 0, 1) x (1, 0, 0)
  circle A0 centre (30.5638, 19.4874) radius 7 projected
  circle A1 centre (44, 3) radius 1.4 projected
  circle A2 centre (44, 35.9749) radius 1.4 projected
  line L0 (17.1276, 35.9749) -> (44, 35.9749)
  line L1 (44, 35.9749) -> (44, 3)
  line L2 (44, 3) -> (17.1276, 3)
  line L3 (17.1276, 3) -> (17.1276, 35.9749)
  line L4 (17.1276, 35.9749) -> (44, 3) construction
  line L5 (44, 35.9749) -> (17.1276, 3) construction
  circle A3 centre (0, 35.9749) radius 1.15 projected
  circle A4 centre (0, 3) radius 1.4 projected
  point P0 (17.2153, 19.4874)
hole "Hole1" at (26.7847, -16.4874, 9.8898) at (-0.0877, -16.4874, 9.8898) at (-0.0877, 16.4874, 9.8898) at (26.7847, 16.4874, 9.8898) at (-17.2153, 16.4874, 9.8898) at (-17.2153, -16.4874, 9.8898) direction (0, 0, -1) diameter 2.9 depth 15 tip angle 118
equation "\"d50\" = 0.125 * Sketch7_Pitch"
equation "\"Sketch7_Pitch\" = 1"
equation "\"d52\" = 60deg"
properties part number "OutputFile"
